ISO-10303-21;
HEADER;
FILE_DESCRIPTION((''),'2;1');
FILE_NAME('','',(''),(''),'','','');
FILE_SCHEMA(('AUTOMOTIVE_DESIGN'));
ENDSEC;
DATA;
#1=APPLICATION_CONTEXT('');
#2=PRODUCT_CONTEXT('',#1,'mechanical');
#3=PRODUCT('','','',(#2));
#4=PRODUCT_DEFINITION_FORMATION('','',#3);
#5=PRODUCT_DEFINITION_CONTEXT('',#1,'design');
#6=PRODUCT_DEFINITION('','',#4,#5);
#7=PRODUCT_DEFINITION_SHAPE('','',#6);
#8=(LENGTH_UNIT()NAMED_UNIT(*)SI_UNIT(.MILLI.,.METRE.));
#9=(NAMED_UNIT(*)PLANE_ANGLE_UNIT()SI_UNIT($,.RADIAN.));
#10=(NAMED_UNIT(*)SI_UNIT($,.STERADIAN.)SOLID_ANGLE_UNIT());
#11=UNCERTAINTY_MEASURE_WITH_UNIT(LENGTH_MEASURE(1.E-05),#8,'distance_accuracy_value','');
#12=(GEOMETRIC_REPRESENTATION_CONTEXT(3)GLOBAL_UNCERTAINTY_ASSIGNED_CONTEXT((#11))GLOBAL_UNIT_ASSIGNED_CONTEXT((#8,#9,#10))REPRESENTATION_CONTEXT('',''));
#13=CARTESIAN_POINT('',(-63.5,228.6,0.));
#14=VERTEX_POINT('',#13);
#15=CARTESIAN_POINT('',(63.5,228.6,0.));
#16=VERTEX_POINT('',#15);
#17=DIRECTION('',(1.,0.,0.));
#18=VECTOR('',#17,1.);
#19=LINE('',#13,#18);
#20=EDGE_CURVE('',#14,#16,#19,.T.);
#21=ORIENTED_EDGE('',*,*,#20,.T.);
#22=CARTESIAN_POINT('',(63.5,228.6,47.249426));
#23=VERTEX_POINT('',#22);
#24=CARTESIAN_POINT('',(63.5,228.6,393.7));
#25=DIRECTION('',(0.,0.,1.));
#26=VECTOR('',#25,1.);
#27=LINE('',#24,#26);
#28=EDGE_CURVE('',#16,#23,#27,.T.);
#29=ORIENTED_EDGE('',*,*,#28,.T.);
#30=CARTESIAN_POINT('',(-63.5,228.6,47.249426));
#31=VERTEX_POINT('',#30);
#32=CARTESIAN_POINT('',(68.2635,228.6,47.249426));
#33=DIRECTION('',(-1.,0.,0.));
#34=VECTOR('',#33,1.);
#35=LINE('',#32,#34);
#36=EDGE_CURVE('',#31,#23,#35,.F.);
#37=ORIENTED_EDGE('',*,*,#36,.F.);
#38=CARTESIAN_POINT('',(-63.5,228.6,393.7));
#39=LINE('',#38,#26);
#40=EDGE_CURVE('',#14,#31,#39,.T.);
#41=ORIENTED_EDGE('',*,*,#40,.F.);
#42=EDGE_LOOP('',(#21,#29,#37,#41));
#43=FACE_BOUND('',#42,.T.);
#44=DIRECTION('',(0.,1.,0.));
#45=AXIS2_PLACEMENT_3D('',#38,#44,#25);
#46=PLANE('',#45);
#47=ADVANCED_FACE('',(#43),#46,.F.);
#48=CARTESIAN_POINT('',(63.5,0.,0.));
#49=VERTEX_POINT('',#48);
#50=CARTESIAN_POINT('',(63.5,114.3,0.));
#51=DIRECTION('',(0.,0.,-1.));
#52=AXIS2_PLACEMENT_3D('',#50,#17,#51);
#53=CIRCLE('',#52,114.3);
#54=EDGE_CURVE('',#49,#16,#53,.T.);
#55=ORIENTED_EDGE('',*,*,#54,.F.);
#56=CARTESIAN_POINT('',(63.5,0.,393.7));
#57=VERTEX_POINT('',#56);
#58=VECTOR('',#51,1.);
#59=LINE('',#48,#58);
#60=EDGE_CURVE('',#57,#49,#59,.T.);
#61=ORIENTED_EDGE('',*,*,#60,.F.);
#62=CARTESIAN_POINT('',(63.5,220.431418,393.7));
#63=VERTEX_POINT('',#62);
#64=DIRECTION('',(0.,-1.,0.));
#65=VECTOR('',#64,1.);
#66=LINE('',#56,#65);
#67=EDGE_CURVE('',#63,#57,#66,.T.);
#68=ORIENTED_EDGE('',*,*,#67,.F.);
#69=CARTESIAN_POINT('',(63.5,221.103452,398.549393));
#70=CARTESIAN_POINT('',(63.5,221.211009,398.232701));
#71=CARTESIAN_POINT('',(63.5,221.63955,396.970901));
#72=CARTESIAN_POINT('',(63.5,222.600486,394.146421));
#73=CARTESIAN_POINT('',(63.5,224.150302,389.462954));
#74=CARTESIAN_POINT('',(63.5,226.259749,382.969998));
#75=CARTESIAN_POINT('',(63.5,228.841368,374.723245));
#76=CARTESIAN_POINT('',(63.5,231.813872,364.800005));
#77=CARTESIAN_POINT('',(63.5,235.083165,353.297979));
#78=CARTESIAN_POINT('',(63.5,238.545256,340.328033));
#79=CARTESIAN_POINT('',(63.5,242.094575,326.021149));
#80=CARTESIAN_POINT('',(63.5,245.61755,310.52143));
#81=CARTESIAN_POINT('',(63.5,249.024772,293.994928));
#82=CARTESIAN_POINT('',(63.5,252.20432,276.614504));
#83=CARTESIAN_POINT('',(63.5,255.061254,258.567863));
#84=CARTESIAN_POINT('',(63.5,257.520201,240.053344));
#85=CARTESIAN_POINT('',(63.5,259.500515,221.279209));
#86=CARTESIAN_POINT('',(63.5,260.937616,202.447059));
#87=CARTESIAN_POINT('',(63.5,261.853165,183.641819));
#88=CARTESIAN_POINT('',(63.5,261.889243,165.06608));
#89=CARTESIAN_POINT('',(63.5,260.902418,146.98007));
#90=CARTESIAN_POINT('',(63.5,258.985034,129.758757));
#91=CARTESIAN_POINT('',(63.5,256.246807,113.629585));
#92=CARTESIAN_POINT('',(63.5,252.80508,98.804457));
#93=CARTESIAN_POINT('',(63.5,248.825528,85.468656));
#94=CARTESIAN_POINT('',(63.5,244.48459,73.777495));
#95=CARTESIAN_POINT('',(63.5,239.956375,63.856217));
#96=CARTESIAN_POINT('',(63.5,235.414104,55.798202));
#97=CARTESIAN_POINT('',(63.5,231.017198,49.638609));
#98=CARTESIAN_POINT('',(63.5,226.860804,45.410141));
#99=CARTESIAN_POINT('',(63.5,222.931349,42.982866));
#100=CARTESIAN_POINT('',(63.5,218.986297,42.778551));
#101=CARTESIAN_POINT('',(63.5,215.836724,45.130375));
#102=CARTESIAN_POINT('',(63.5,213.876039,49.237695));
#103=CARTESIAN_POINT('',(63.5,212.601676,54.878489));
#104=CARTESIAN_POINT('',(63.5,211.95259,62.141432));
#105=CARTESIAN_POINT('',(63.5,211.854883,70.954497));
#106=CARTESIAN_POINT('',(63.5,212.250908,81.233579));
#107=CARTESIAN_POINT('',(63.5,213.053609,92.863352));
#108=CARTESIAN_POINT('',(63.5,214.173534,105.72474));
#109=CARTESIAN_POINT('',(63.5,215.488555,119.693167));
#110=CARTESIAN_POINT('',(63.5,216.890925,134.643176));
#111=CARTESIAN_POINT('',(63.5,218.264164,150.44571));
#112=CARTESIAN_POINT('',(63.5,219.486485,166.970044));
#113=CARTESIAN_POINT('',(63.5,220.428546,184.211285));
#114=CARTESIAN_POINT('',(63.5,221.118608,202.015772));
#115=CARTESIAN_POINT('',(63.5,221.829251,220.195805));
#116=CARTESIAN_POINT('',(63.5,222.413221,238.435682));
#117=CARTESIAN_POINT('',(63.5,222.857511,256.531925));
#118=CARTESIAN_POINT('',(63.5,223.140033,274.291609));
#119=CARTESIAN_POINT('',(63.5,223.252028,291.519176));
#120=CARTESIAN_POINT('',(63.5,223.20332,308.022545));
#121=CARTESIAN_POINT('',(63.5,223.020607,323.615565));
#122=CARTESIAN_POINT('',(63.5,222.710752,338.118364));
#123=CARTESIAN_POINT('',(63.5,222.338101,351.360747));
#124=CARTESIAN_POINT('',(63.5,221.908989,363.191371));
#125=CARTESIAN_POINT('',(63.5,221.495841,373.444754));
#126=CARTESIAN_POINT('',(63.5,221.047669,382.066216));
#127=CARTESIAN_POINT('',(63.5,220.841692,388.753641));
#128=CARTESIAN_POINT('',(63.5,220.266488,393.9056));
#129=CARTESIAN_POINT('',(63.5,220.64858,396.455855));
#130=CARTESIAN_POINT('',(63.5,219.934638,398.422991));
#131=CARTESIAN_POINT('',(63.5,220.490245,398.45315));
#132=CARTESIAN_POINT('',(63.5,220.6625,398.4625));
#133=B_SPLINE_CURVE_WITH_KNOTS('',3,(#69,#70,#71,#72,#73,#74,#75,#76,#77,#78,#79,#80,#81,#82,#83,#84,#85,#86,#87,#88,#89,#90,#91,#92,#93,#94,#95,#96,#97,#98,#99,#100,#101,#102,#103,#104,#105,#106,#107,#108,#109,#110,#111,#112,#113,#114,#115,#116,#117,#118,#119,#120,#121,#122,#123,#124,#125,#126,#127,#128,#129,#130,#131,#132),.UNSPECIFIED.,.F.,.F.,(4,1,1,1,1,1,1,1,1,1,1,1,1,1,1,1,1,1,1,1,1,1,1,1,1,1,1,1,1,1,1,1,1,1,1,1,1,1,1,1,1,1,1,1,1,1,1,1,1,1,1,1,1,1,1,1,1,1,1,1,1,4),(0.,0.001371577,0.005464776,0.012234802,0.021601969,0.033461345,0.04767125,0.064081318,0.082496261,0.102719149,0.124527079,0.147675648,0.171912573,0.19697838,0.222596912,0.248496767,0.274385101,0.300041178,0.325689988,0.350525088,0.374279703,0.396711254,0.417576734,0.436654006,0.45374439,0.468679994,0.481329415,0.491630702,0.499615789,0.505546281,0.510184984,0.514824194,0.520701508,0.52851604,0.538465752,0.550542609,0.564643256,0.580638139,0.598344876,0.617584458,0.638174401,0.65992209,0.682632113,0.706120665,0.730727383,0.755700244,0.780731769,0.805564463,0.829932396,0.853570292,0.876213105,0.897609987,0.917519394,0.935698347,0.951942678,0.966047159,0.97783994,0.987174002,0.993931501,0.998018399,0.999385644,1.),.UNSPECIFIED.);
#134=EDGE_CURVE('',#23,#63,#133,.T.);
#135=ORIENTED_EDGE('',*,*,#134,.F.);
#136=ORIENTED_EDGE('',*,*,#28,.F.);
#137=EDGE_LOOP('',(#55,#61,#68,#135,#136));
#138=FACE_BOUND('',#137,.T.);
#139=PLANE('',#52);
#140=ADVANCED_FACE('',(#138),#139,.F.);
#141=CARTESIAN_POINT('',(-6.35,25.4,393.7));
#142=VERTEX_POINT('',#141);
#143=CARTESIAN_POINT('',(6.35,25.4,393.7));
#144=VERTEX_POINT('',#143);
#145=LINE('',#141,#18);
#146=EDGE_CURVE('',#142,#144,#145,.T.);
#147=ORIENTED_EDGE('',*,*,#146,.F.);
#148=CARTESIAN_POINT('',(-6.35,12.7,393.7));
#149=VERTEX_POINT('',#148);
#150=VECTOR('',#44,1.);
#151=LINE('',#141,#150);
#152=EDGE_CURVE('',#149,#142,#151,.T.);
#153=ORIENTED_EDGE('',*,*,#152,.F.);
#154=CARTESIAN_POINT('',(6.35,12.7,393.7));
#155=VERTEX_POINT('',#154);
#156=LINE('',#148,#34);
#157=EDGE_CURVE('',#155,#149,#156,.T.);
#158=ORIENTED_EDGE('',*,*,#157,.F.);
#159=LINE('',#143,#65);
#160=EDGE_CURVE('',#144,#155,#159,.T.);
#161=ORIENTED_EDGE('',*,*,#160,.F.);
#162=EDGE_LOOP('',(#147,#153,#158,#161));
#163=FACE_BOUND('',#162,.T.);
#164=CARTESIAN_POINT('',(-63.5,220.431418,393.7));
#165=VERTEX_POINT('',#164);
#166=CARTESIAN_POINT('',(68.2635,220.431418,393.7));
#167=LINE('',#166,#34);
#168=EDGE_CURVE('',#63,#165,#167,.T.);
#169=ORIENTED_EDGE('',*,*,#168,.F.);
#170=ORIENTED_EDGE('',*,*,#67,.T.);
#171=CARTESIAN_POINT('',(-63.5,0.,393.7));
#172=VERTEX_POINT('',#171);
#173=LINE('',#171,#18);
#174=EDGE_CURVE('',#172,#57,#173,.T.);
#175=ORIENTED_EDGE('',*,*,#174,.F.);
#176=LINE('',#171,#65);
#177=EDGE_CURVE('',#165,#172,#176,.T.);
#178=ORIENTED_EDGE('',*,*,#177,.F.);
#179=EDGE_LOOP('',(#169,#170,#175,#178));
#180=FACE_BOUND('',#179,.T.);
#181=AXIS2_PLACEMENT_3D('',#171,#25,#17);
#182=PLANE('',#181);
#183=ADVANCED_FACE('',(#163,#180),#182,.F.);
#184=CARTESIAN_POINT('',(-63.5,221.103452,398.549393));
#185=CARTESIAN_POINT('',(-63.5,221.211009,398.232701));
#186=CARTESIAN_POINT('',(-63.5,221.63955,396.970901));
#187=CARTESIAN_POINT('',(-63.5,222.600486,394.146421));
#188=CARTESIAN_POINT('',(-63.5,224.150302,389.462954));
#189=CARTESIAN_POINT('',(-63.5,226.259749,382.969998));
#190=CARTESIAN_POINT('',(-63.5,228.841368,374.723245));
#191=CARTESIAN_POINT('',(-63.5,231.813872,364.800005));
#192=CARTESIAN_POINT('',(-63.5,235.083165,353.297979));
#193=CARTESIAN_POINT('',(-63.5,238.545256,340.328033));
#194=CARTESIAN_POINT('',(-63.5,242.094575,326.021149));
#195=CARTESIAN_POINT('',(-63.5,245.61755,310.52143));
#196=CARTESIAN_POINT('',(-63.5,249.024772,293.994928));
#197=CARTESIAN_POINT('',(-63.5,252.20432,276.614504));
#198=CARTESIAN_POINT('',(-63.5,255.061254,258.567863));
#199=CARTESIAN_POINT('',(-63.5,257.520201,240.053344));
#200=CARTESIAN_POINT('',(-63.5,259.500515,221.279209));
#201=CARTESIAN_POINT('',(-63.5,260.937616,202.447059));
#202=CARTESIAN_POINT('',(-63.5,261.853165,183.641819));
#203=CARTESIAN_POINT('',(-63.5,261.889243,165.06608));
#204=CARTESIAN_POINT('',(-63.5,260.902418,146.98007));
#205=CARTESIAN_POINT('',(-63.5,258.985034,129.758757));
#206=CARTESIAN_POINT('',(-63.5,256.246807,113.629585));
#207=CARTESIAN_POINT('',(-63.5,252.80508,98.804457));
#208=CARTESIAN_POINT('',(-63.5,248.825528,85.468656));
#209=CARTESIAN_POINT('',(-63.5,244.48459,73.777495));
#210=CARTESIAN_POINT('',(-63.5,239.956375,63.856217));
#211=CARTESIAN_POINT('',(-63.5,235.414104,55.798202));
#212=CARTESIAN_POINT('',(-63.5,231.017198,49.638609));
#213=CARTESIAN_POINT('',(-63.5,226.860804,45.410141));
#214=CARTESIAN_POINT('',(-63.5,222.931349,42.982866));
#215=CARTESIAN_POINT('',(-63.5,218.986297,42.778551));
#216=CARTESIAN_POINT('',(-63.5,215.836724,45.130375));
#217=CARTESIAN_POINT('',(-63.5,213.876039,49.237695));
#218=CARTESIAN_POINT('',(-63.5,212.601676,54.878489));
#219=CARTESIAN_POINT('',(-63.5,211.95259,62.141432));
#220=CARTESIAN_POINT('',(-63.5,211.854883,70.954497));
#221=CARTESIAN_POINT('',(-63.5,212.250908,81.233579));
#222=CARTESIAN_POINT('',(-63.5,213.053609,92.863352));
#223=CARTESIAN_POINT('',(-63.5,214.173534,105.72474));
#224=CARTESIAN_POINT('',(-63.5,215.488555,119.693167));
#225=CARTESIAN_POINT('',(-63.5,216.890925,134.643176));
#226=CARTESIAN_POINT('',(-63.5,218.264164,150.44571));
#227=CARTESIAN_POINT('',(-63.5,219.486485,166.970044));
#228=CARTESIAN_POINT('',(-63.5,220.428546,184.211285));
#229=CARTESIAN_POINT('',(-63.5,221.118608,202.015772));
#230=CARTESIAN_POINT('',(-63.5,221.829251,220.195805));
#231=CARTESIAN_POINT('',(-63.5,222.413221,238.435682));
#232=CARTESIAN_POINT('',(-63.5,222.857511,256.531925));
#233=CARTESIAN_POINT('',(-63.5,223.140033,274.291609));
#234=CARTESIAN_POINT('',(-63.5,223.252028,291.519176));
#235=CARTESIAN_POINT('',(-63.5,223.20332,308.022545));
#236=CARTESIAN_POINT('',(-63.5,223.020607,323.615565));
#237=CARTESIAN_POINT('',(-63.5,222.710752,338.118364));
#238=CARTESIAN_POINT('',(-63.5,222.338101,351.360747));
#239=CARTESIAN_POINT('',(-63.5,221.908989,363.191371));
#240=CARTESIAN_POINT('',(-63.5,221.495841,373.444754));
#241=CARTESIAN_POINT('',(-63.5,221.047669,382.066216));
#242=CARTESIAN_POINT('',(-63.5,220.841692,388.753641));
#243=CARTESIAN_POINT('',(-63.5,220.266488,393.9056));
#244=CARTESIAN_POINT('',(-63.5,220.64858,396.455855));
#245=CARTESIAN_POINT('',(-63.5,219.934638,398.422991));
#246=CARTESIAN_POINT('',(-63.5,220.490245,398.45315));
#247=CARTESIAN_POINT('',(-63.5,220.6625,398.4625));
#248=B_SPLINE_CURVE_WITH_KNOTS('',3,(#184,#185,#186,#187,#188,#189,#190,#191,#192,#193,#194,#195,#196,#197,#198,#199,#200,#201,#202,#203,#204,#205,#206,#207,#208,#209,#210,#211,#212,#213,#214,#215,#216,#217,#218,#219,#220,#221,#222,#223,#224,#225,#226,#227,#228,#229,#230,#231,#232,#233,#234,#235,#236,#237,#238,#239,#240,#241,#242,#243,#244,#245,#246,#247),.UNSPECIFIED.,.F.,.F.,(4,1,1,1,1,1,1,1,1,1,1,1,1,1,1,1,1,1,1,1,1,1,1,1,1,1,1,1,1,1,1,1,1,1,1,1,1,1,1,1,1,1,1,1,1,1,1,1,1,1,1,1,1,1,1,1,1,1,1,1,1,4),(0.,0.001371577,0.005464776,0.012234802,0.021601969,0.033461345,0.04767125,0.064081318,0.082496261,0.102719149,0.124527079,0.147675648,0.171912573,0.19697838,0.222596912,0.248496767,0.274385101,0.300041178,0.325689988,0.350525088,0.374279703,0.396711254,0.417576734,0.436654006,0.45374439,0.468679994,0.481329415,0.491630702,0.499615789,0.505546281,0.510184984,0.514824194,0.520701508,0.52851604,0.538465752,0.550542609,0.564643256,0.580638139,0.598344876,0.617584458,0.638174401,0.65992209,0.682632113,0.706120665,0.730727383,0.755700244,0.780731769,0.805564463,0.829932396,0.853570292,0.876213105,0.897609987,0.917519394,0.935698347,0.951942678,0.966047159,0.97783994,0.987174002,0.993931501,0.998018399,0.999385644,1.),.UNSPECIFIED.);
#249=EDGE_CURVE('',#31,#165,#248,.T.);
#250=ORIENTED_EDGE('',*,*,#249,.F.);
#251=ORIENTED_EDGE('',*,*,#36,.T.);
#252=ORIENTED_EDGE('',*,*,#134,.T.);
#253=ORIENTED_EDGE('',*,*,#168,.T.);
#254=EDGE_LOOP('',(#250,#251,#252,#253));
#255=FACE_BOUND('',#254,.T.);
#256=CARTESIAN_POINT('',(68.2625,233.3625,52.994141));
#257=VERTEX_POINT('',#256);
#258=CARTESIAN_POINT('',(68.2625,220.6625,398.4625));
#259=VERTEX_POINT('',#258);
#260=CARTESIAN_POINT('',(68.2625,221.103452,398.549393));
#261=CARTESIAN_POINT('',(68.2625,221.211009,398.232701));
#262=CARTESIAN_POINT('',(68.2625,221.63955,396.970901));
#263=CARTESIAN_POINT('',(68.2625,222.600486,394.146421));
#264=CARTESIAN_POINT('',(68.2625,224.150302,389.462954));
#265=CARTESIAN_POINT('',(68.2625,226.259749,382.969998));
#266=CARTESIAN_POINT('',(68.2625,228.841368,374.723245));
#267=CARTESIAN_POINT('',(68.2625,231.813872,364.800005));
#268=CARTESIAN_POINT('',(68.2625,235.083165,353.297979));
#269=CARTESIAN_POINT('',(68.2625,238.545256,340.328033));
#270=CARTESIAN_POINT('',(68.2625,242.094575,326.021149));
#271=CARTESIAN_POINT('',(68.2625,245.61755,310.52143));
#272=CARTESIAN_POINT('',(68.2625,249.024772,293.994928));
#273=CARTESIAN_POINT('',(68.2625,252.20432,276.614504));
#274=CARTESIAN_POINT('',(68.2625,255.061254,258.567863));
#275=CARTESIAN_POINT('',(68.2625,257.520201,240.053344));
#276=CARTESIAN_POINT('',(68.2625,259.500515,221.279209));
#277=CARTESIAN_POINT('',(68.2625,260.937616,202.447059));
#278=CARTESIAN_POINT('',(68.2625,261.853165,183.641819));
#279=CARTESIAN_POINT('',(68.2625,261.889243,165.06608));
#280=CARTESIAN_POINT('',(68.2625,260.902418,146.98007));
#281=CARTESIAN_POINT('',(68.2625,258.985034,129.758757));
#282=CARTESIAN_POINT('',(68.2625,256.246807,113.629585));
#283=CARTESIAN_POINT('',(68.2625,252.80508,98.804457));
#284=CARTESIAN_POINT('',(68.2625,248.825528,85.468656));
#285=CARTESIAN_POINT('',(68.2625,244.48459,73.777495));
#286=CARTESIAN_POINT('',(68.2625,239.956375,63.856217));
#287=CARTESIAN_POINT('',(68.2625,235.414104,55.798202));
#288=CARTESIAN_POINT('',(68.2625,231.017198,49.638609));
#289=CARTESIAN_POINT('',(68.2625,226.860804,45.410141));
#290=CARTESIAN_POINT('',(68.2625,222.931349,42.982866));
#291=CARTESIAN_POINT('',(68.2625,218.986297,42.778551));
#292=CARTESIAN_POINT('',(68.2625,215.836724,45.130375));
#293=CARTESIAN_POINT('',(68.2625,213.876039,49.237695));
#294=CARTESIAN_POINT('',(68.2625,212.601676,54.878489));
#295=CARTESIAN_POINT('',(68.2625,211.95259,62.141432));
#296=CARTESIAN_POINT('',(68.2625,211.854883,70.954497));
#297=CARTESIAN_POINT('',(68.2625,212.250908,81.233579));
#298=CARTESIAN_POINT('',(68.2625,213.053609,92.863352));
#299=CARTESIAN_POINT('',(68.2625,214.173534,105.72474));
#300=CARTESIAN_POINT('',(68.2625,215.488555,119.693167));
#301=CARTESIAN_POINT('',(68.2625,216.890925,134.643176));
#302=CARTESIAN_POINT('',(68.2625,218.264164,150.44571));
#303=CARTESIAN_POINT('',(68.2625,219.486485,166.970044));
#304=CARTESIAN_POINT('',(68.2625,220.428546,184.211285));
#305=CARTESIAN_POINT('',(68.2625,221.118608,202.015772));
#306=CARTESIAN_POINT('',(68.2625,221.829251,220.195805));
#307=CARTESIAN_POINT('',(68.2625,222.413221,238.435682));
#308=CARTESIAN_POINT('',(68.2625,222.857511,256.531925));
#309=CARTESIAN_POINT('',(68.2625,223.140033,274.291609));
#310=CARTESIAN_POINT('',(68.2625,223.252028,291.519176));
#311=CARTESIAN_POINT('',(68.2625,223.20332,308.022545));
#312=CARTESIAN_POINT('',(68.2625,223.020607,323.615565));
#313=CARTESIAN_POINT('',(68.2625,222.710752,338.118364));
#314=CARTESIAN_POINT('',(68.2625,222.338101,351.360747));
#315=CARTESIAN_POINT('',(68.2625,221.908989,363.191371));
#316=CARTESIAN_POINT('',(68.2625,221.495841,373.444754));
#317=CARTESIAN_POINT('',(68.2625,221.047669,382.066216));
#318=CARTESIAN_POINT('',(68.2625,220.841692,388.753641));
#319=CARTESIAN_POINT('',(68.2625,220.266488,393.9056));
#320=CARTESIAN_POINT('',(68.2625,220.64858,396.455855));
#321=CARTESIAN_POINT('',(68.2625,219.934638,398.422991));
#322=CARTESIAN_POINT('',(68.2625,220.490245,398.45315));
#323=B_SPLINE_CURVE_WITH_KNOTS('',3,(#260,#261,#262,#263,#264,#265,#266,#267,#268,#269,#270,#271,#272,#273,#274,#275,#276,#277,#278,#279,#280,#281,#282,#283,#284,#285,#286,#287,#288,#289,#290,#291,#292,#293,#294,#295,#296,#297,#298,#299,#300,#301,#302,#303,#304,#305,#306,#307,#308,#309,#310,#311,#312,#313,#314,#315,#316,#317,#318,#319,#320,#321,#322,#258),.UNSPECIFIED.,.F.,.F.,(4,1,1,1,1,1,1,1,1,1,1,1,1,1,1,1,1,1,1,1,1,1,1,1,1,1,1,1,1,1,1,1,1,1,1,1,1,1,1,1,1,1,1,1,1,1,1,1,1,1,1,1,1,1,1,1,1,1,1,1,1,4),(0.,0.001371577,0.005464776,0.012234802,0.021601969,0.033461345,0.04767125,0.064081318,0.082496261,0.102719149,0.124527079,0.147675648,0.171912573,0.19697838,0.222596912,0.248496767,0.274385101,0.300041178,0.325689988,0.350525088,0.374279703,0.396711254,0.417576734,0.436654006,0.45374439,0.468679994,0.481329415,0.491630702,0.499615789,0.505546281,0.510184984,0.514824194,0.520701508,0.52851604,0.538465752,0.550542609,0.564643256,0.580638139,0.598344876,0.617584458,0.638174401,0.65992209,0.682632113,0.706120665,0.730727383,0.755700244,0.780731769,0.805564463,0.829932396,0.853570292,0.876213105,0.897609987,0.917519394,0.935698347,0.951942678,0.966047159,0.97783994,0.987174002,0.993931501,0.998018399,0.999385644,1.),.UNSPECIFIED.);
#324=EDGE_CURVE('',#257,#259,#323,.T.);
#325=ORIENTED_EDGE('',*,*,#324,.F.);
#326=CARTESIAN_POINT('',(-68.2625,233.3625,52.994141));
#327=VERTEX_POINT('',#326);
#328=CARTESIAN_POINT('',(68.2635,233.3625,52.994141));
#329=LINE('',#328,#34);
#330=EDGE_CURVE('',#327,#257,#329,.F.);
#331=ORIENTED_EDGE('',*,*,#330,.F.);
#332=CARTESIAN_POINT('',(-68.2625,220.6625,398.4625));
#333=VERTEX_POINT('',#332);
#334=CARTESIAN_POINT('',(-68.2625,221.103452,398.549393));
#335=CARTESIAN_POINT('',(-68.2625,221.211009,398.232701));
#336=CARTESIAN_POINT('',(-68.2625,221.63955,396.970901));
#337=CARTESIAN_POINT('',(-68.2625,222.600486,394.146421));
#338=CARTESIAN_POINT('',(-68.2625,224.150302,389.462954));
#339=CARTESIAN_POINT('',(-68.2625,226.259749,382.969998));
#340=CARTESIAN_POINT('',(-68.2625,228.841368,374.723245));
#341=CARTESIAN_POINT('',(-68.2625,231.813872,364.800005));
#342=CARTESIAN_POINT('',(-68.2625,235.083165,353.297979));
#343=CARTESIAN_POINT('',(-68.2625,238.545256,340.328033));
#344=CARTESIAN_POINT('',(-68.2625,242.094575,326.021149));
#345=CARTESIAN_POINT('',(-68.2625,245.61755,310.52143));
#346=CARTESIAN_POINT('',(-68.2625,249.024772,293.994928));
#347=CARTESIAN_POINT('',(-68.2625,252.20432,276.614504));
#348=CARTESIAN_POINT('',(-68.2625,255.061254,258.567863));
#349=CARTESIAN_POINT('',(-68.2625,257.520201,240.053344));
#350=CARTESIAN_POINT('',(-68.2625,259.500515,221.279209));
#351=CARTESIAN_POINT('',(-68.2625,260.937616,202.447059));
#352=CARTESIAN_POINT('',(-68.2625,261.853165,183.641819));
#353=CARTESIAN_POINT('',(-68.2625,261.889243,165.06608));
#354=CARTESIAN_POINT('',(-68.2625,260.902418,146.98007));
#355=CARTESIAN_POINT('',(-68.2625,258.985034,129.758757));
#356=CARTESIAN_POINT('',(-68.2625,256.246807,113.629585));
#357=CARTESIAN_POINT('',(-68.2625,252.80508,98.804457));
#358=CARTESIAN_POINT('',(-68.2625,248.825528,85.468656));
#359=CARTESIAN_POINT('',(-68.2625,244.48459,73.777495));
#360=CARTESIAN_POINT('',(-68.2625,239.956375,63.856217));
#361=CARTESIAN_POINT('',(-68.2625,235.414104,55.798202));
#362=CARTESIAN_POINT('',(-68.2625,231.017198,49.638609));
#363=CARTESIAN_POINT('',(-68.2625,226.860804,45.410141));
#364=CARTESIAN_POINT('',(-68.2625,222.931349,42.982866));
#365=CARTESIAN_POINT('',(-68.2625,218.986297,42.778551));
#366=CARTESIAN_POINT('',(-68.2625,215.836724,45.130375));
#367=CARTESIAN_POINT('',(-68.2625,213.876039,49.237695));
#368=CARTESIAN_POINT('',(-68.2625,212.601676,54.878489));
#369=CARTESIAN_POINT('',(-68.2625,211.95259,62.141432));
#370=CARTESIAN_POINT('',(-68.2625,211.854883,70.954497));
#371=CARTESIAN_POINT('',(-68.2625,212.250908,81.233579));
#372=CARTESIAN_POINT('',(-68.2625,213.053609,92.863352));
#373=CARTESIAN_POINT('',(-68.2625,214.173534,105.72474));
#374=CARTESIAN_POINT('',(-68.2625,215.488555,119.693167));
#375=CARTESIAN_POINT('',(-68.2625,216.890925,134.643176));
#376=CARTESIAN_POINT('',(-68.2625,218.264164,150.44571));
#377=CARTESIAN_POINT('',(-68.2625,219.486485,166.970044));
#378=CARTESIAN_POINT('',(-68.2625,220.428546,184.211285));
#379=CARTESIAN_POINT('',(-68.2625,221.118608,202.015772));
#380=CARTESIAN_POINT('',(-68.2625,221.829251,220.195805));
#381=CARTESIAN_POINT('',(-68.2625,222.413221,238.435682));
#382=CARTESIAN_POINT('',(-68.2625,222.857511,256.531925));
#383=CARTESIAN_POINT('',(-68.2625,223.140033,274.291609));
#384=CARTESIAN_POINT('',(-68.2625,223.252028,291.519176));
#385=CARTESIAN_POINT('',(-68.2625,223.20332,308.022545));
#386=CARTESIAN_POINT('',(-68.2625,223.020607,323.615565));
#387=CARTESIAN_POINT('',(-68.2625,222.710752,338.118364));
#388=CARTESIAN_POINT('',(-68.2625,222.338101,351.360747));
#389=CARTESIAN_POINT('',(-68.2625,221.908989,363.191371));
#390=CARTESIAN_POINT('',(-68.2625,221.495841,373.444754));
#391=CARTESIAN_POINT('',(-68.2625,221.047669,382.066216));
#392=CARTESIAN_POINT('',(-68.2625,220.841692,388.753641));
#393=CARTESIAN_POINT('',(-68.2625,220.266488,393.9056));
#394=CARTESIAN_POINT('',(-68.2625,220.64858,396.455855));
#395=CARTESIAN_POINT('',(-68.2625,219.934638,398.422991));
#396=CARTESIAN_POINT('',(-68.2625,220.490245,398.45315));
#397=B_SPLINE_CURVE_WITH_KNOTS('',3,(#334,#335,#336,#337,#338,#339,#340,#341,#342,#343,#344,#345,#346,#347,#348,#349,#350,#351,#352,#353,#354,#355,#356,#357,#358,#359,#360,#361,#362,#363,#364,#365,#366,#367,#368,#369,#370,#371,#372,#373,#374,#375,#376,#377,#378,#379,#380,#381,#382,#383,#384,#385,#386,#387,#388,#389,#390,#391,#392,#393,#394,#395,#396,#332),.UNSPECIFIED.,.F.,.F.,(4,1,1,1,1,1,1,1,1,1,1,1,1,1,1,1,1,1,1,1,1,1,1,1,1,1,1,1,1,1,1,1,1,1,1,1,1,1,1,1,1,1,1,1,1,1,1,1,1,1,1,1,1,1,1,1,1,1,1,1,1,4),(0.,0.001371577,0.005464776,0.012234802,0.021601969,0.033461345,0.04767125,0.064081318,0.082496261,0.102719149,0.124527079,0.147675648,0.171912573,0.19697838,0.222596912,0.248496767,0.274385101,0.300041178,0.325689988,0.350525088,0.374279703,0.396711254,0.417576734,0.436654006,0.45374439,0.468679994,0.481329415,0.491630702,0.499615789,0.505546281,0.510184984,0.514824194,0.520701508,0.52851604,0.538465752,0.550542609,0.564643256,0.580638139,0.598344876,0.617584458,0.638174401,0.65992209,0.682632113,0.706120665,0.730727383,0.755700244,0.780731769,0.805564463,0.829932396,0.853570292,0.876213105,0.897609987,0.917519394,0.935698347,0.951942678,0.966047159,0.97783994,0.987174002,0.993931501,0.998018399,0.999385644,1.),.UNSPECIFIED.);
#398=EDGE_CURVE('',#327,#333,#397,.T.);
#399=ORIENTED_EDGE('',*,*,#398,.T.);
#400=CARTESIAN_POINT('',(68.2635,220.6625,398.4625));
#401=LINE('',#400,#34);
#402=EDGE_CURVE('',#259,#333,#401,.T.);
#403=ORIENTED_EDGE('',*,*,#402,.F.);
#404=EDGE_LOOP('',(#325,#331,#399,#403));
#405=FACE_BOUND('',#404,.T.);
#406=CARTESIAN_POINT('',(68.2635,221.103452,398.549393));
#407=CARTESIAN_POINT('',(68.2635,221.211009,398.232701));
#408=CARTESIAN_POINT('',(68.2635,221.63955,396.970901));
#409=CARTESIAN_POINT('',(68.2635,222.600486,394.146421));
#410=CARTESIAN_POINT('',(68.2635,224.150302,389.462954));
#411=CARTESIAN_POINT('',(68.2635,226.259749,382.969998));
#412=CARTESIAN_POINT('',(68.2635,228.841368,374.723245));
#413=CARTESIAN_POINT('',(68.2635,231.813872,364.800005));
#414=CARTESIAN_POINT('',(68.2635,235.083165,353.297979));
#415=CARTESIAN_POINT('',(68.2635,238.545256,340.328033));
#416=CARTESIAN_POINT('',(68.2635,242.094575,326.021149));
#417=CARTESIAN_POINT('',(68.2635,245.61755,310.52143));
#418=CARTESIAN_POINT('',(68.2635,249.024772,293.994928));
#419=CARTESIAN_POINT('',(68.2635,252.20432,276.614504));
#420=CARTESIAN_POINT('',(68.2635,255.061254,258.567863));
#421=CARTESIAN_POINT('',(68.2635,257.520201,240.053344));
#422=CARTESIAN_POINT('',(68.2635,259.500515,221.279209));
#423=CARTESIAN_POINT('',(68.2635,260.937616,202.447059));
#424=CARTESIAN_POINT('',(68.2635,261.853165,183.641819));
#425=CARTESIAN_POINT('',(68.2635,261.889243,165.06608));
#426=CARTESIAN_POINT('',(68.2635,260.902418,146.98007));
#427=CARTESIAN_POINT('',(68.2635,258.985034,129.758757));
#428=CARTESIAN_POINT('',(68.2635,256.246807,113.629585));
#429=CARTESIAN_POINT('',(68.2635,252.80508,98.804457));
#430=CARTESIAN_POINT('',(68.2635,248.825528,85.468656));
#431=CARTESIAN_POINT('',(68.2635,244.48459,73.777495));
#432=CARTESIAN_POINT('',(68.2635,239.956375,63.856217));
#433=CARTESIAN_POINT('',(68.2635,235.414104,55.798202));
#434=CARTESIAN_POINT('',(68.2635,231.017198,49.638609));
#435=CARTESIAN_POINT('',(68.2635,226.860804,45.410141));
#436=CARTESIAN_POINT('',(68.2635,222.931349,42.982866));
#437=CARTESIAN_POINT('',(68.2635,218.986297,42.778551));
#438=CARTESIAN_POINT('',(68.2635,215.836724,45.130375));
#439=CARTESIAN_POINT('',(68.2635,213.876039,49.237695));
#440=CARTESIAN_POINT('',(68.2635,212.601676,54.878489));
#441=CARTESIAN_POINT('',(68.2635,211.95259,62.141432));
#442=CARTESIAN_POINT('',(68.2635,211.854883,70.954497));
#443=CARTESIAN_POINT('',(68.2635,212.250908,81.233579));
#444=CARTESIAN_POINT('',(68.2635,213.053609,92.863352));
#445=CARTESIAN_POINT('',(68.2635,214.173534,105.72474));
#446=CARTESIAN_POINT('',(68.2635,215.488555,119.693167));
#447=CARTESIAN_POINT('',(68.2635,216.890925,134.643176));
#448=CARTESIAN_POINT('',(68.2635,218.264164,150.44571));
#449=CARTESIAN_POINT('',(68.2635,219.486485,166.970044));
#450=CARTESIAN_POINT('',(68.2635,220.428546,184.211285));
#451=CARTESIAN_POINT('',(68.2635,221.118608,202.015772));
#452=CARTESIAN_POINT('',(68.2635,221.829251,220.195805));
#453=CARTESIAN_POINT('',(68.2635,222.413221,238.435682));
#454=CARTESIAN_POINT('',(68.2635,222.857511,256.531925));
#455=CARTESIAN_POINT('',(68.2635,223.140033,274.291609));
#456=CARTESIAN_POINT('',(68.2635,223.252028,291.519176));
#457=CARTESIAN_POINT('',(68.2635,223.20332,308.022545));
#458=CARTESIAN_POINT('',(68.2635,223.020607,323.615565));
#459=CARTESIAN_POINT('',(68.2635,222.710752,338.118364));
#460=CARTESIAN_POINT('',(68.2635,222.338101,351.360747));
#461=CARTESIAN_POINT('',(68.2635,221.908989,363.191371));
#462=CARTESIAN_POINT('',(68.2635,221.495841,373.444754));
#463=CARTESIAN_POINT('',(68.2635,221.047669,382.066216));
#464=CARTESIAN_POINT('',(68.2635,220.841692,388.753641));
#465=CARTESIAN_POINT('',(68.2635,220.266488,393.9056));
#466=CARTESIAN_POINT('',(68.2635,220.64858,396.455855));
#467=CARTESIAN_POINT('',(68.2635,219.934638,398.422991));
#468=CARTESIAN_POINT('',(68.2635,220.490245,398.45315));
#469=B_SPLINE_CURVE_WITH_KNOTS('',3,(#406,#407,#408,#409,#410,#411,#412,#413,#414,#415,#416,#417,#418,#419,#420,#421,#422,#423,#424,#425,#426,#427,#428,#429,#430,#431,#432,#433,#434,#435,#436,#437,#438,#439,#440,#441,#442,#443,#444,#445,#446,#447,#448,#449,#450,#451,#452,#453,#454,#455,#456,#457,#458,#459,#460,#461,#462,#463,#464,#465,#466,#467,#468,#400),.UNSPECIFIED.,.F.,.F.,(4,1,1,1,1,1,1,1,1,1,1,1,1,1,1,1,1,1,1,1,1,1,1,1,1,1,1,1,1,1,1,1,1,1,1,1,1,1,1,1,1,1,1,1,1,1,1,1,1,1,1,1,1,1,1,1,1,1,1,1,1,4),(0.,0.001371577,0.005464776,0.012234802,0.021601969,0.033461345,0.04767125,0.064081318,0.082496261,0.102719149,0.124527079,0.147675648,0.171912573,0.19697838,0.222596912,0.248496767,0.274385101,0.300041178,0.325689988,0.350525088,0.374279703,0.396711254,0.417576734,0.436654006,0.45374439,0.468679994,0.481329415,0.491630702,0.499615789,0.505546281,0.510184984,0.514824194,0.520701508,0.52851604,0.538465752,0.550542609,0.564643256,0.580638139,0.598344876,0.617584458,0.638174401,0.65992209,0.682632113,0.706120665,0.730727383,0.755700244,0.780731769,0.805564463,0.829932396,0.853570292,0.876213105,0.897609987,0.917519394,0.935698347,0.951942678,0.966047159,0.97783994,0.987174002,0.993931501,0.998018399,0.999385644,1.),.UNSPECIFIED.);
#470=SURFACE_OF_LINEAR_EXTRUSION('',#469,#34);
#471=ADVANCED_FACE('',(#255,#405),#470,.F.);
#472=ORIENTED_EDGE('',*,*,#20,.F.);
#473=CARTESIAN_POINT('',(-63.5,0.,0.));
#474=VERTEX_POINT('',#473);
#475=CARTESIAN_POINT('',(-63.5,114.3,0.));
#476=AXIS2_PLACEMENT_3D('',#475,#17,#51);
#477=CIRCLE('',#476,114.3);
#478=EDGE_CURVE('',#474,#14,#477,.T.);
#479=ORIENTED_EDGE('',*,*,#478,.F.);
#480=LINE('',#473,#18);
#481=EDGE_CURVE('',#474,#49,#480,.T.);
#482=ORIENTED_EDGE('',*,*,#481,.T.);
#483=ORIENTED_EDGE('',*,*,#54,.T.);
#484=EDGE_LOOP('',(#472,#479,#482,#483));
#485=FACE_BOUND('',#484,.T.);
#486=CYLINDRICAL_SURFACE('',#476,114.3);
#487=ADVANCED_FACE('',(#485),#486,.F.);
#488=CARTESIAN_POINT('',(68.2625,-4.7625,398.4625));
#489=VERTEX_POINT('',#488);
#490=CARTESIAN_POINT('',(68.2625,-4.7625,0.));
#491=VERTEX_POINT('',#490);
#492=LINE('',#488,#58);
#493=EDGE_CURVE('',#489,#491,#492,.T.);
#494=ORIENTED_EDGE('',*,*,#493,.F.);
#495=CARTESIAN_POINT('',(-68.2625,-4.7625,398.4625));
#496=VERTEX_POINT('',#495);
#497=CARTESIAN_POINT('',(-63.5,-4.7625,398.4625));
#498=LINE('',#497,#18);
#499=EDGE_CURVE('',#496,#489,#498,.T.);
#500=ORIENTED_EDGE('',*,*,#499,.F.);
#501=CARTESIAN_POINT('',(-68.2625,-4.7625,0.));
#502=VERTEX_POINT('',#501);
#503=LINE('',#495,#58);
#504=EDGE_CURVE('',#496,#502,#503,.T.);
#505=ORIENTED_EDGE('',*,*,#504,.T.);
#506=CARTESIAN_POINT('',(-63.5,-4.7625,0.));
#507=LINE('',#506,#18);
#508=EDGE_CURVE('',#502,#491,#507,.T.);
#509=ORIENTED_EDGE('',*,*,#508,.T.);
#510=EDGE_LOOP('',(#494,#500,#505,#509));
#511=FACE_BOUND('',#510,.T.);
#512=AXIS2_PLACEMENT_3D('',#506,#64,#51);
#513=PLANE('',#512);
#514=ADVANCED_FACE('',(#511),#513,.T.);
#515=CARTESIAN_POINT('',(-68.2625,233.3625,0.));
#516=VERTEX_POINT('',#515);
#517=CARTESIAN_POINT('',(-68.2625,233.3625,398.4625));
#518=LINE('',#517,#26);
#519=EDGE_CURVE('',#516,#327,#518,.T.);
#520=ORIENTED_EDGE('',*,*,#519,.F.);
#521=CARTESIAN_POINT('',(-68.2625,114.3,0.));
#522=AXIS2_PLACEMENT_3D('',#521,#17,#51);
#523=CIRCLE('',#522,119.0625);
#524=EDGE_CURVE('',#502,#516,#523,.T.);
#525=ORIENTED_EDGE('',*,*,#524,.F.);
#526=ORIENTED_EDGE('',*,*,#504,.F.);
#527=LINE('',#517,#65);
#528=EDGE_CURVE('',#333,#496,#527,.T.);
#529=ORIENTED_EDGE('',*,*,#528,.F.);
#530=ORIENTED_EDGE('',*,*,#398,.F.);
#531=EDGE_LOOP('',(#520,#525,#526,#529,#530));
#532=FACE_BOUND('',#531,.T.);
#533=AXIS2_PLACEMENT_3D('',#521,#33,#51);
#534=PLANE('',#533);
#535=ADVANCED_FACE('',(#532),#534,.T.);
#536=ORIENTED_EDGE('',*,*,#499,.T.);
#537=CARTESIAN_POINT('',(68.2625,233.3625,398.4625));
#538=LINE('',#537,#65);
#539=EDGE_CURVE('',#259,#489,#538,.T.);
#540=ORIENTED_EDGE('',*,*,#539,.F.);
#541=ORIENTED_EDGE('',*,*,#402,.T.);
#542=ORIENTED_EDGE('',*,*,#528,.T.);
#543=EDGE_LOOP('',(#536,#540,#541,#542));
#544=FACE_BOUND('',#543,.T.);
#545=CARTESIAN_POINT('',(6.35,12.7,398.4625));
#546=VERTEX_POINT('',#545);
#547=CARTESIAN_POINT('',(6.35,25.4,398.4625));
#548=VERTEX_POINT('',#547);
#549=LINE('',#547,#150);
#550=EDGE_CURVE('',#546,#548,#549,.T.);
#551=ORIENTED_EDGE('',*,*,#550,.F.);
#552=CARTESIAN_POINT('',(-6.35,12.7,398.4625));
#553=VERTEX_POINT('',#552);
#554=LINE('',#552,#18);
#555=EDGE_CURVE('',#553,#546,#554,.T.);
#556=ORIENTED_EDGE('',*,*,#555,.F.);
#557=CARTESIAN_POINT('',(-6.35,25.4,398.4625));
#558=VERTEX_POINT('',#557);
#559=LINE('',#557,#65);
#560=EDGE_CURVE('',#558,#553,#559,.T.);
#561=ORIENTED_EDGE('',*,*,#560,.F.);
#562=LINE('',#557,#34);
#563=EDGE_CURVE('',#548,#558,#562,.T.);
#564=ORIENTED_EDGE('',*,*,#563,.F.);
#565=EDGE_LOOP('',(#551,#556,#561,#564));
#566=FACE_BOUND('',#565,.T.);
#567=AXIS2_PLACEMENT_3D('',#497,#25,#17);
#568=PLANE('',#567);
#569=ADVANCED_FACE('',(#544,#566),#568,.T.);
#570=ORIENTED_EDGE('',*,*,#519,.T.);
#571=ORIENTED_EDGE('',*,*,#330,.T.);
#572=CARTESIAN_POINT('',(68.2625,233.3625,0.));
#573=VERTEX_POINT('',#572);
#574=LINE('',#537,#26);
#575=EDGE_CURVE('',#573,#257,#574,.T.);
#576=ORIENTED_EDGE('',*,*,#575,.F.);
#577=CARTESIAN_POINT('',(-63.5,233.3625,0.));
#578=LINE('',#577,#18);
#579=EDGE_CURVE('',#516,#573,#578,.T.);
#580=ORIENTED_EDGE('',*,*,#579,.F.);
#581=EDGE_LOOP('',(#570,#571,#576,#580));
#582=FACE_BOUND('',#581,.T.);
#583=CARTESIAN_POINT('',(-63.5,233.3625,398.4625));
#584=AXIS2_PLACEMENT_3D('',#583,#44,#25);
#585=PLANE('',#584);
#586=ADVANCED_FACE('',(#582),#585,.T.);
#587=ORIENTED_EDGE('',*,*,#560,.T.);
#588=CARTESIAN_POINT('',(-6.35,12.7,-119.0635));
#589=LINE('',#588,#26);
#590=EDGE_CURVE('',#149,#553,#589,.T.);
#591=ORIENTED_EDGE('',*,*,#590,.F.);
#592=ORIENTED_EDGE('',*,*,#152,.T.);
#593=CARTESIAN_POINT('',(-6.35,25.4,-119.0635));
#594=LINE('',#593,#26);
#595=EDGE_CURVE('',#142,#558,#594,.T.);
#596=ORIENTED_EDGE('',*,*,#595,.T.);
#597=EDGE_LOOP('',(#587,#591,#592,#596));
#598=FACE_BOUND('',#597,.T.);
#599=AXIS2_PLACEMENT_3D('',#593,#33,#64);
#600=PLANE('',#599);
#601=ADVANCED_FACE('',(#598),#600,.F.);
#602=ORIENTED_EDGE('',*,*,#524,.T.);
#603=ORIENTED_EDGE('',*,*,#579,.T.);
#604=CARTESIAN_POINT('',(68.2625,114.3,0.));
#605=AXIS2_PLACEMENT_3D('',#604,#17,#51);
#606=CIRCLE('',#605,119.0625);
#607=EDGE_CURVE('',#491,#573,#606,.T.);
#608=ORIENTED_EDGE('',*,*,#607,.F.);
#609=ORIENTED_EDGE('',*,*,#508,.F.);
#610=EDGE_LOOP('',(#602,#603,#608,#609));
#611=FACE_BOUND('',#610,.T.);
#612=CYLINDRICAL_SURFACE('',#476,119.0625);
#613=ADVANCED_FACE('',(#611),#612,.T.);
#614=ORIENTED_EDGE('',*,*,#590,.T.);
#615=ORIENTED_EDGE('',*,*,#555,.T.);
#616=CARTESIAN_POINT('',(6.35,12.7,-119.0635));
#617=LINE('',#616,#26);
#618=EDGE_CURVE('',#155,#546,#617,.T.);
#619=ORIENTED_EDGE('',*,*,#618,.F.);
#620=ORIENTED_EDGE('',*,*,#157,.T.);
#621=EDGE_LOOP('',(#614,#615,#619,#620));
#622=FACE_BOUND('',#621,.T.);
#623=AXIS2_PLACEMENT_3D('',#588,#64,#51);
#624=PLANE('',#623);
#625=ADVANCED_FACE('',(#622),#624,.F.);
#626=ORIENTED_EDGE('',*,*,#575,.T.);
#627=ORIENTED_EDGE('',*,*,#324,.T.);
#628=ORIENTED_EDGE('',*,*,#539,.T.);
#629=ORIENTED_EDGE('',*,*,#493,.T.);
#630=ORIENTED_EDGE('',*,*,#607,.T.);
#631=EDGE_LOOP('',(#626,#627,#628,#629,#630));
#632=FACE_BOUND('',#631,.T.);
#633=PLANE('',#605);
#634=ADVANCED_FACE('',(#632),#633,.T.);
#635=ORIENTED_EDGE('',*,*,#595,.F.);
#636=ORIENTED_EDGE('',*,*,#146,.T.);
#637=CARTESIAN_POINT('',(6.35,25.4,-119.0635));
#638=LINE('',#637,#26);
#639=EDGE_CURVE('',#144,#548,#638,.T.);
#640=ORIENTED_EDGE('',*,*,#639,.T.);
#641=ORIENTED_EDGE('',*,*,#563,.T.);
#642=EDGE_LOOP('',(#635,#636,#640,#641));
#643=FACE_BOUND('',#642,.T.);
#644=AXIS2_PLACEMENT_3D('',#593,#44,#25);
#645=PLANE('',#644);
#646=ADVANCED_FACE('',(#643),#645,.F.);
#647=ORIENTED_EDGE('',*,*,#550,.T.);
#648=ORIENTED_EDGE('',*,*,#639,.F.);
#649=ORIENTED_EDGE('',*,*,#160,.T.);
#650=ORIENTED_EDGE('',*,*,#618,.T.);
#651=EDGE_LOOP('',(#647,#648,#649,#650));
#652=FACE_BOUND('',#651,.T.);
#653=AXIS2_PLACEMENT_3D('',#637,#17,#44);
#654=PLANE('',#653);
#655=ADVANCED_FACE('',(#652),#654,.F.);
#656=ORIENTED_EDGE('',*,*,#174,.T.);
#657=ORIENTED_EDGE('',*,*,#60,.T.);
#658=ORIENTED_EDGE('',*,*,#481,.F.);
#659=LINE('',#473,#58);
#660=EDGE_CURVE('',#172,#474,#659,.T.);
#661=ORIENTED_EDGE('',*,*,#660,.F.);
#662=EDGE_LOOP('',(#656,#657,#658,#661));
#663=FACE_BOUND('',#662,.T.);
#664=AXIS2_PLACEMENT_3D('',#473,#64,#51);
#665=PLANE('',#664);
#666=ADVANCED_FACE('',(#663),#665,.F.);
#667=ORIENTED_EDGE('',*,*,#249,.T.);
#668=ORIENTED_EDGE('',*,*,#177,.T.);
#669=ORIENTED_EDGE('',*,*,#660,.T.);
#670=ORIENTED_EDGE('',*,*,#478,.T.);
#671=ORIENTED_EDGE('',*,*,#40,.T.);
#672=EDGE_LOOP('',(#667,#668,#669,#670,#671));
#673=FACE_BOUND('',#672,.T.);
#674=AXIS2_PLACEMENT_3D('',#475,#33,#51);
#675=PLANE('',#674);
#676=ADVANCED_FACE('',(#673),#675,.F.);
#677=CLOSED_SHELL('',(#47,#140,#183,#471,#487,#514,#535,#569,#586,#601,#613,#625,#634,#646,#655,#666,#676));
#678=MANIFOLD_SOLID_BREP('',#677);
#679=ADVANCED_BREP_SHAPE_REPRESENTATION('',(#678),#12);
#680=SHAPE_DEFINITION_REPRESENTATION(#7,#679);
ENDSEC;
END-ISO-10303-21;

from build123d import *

# Parameters (mm, degrees)
BOSS_EXTRUDE1_DEPTH            = 63.5
BOSS_EXTRUDE1_DEPTH_BACK       = 63.5
CUT_EXTRUDE1_REACH             = 573.246
SKETCH4_W                      = 12.7
SKETCH4_H                      = 12.7
BOSS_EXTRUDE3_DEPTH            = 4.7625
CUT_EXTRUDE2_REACH             = 468.787
CUT_EXTRUDE2_DIRECTION_2_REACH = 468.787
CUT_EXTRUDE3_DEPTH             = 136.525


with BuildPart() as part:
    # Sketch2 → Boss-Extrude1 (new, two sides: drawn at the far end of the back side and taken through both)
    with BuildSketch(Plane(origin=(0, 0, 0), x_dir=(0, 0, -1), z_dir=(1, 0, 0)).offset(-BOSS_EXTRUDE1_DEPTH_BACK)):
        with BuildLine():
            Line((0, -4.7625), (-398.4625, -4.7625))
            Line((-398.4625, -4.7625), (-398.4625, 233.3625))
            Line((-398.4625, 233.3625), (0, 233.3625))
            ThreePointArc((0, 233.3625), (119.0625, 114.3), (0, -4.7625))
        make_face()
        with BuildLine():
            Line((0, 0), (-393.7, 0))
            Line((-393.7, 0), (-393.7, 228.6))
            Line((-393.7, 228.6), (0, 228.6))
            ThreePointArc((0, 228.6), (114.3, 114.3), (0, 0))
        make_face(mode=Mode.SUBTRACT)
    extrude(amount=BOSS_EXTRUDE1_DEPTH + BOSS_EXTRUDE1_DEPTH_BACK)

    # Sketch4 → Cut-Extrude1 (cut, up to next)
    with BuildSketch(Plane.XY.offset(398.4625), mode=Mode.PRIVATE) as cut_extrude1_sk1:
        with Locations((0, 19.05)):
            Rectangle(SKETCH4_W, SKETCH4_H)
    cut_extrude1_tool1 = extrude(cut_extrude1_sk1.sketch, amount=-CUT_EXTRUDE1_REACH, mode=Mode.PRIVATE) & part.part
    add(cut_extrude1_tool1.solids().sort_by_distance((0, 19.05, 398.4625))[0], mode=Mode.SUBTRACT)

    # Sketch9 → Boss-Extrude3 (add)
    with BuildSketch(Plane(origin=(63.5, 0, 0), x_dir=(0, 0, -1), z_dir=(1, 0, 0))):
        with BuildLine():
            Line((-398.4625, 233.3625), (0, 233.3625))
            ThreePointArc((0, 233.3625), (119.0625, 114.3), (0, -4.7625))
            Line((0, -4.7625), (-398.4625, -4.7625))
            Line((-398.4625, -4.7625), (-398.4625, 233.3625))
        make_face()
    boss_extrude3 = extrude(amount=BOSS_EXTRUDE3_DEPTH)

    # Mirror1: Boss-Extrude3 across plane
    add(boss_extrude3.mirror(Plane(origin=(0, 0, 0), x_dir=(0, 0, 1), z_dir=(1, 0, 0))))

    # Sketch11 → Cut-Extrude2 (cut, up to next)
    with BuildSketch(Plane(origin=(0, 0, 0), x_dir=(0, 0, -1), z_dir=(1, 0, 0)), mode=Mode.PRIVATE) as cut_extrude2_sk1:
        with BuildLine():
            Line((-398.4625, 220.6625), (-398.549393223, 221.103452286))
            add(Edge.make_bspline(
                [(-398.549393223, 221.103452286), (-398.232700595, 221.211009466), (-396.970901441, 221.63954978), (-394.14642109, 222.600485882), (-389.462953517, 224.150302439), (-382.969998464, 226.259749178), (-374.723245355, 228.841368447), (-364.80000481, 231.813872481), (-353.297978696, 235.083165457), (-340.328032508, 238.545255758), (-326.021148985, 242.094575026), (-310.521429797, 245.617549826), (-293.994927933, 249.024771645), (-276.614504443, 252.20432036), (-258.567862768, 255.061254061), (-240.053343741, 257.520201331), (-221.279209389, 259.500514547), (-202.447059388, 260.937616248), (-183.64181928, 261.853164618), (-165.066079575, 261.889242872), (-146.980070346, 260.902418125), (-129.758757053, 258.98503391), (-113.629585221, 256.246806811), (-98.804456806, 252.805079969), (-85.468656161, 248.825528286), (-73.777495343, 244.484590441), (-63.856217252, 239.956374948), (-55.798201624, 235.414103694), (-49.638608789, 231.017198213), (-45.410140529, 226.860803831), (-42.982866367, 222.931348779), (-42.778551081, 218.986296857), (-45.130374502, 215.836723639), (-49.23769494, 213.876038864), (-54.878489437, 212.601675942), (-62.141431937, 211.952589942), (-70.954497433, 211.854882503), (-81.233579013, 212.250908039), (-92.863351661, 213.05360896), (-105.724740235, 214.17353372), (-119.693166749, 215.488554617), (-134.64317648, 216.89092489), (-150.445709996, 218.26416395), (-166.970044114, 219.486485379), (-184.211284992, 220.428545699), (-202.015771527, 221.118607839), (-220.195805294, 221.829251021), (-238.435682057, 222.413221363), (-256.531925379, 222.857510837), (-274.291608724, 223.140033413), (-291.519175726, 223.252027693), (-308.022545069, 223.203320199), (-323.615565221, 223.020606612), (-338.118364345, 222.71075189), (-351.360747498, 222.338100855), (-363.191371257, 221.908988988), (-373.444754133, 221.495841487), (-382.066215664, 221.0476688), (-388.753640958, 220.841691742), (-393.905599593, 220.266487962), (-396.455855294, 220.648579963), (-398.422990842, 219.934638372), (-398.453149809, 220.490245125), (-398.4625, 220.6625)],
                knots=[0, 0, 0, 0, 0.001371577, 0.005464776, 0.012234802, 0.021601969, 0.033461345, 0.04767125, 0.064081318, 0.082496261, 0.102719149, 0.124527079, 0.147675648, 0.171912573, 0.19697838, 0.222596912, 0.248496767, 0.274385101, 0.300041178, 0.325689988, 0.350525088, 0.374279703, 0.396711254, 0.417576734, 0.436654006, 0.45374439, 0.468679994, 0.481329415, 0.491630702, 0.499615789, 0.505546281, 0.510184984, 0.514824194, 0.520701508, 0.52851604, 0.538465752, 0.550542609, 0.564643256, 0.580638139, 0.598344876, 0.617584458, 0.638174401, 0.65992209, 0.682632113, 0.706120665, 0.730727383, 0.755700244, 0.780731769, 0.805564463, 0.829932396, 0.853570292, 0.876213105, 0.897609987, 0.917519394, 0.935698347, 0.951942678, 0.966047159, 0.97783994, 0.987174002, 0.993931501, 0.998018399, 0.999385644, 1, 1, 1, 1], degree=3))
        make_face()
    cut_extrude2_tool1 = extrude(cut_extrude2_sk1.sketch, amount=-CUT_EXTRUDE2_REACH, mode=Mode.PRIVATE) & part.part
    add(cut_extrude2_tool1.solids().sort_by_distance((0, 236.327035, 192.134804))[0], mode=Mode.SUBTRACT)

    # Sketch11 → Cut-Extrude2 direction 2 (cut, up to next)
    with BuildSketch(Plane(origin=(0, 0, 0), x_dir=(0, 0, -1), z_dir=(1, 0, 0)), mode=Mode.PRIVATE) as cut_extrude2_direction_2_sk1:
        with BuildLine():
            Line((-398.4625, 220.6625), (-398.549393223, 221.103452286))
            add(Edge.make_bspline(
                [(-398.549393223, 221.103452286), (-398.232700595, 221.211009466), (-396.970901441, 221.63954978), (-394.14642109, 222.600485882), (-389.462953517, 224.150302439), (-382.969998464, 226.259749178), (-374.723245355, 228.841368447), (-364.80000481, 231.813872481), (-353.297978696, 235.083165457), (-340.328032508, 238.545255758), (-326.021148985, 242.094575026), (-310.521429797, 245.617549826), (-293.994927933, 249.024771645), (-276.614504443, 252.20432036), (-258.567862768, 255.061254061), (-240.053343741, 257.520201331), (-221.279209389, 259.500514547), (-202.447059388, 260.937616248), (-183.64181928, 261.853164618), (-165.066079575, 261.889242872), (-146.980070346, 260.902418125), (-129.758757053, 258.98503391), (-113.629585221, 256.246806811), (-98.804456806, 252.805079969), (-85.468656161, 248.825528286), (-73.777495343, 244.484590441), (-63.856217252, 239.956374948), (-55.798201624, 235.414103694), (-49.638608789, 231.017198213), (-45.410140529, 226.860803831), (-42.982866367, 222.931348779), (-42.778551081, 218.986296857), (-45.130374502, 215.836723639), (-49.23769494, 213.876038864), (-54.878489437, 212.601675942), (-62.141431937, 211.952589942), (-70.954497433, 211.854882503), (-81.233579013, 212.250908039), (-92.863351661, 213.05360896), (-105.724740235, 214.17353372), (-119.693166749, 215.488554617), (-134.64317648, 216.89092489), (-150.445709996, 218.26416395), (-166.970044114, 219.486485379), (-184.211284992, 220.428545699), (-202.015771527, 221.118607839), (-220.195805294, 221.829251021), (-238.435682057, 222.413221363), (-256.531925379, 222.857510837), (-274.291608724, 223.140033413), (-291.519175726, 223.252027693), (-308.022545069, 223.203320199), (-323.615565221, 223.020606612), (-338.118364345, 222.71075189), (-351.360747498, 222.338100855), (-363.191371257, 221.908988988), (-373.444754133, 221.495841487), (-382.066215664, 221.0476688), (-388.753640958, 220.841691742), (-393.905599593, 220.266487962), (-396.455855294, 220.648579963), (-398.422990842, 219.934638372), (-398.453149809, 220.490245125), (-398.4625, 220.6625)],
                knots=[0, 0, 0, 0, 0.001371577, 0.005464776, 0.012234802, 0.021601969, 0.033461345, 0.04767125, 0.064081318, 0.082496261, 0.102719149, 0.124527079, 0.147675648, 0.171912573, 0.19697838, 0.222596912, 0.248496767, 0.274385101, 0.300041178, 0.325689988, 0.350525088, 0.374279703, 0.396711254, 0.417576734, 0.436654006, 0.45374439, 0.468679994, 0.481329415, 0.491630702, 0.499615789, 0.505546281, 0.510184984, 0.514824194, 0.520701508, 0.52851604, 0.538465752, 0.550542609, 0.564643256, 0.580638139, 0.598344876, 0.617584458, 0.638174401, 0.65992209, 0.682632113, 0.706120665, 0.730727383, 0.755700244, 0.780731769, 0.805564463, 0.829932396, 0.853570292, 0.876213105, 0.897609987, 0.917519394, 0.935698347, 0.951942678, 0.966047159, 0.97783994, 0.987174002, 0.993931501, 0.998018399, 0.999385644, 1, 1, 1, 1], degree=3))
        make_face()
    cut_extrude2_direction_2_tool1 = extrude(cut_extrude2_direction_2_sk1.sketch, amount=CUT_EXTRUDE2_DIRECTION_2_REACH, mode=Mode.PRIVATE) & part.part
    add(cut_extrude2_direction_2_tool1.solids().sort_by_distance((0, 236.327035, 192.134804))[0], mode=Mode.SUBTRACT)


with BuildPart() as cut_extrude2_piece_1:
    # of the separate pieces the step leaves, piece 1, a body of its own (cut_extrude2_pieces)
    add(part.part.solids().sort_by_distance((68.2625, 233.3625, 0))[0])


with BuildPart() as cut_extrude2_piece_2:
    # of the separate pieces the step leaves, piece 2, a body of its own (cut_extrude2_pieces)
    add(part.part.solids().sort_by_distance((68.2625, 233.3625, 359.323803316))[0])

    # Sketch12 → Cut-Extrude3 (cut)
    with BuildSketch(Plane.ZY.offset(68.2625)):
        with BuildLine():
            Line((398.4625, 221.132963555), (398.4625, 233.3625))
            Line((398.4625, 233.3625), (359.323803288, 233.362500008))
            add(Edge.make_bspline(
                [(359.323803288, 233.362500008), (361.320647135, 232.795545243), (366.644911042, 231.261231316), (374.723245355, 228.841368447), (382.969998464, 226.259749178), (389.462953517, 224.150302439), (394.14642109, 222.600485882), (396.941942115, 221.649402234), (398.174771889, 221.230683977), (398.4625, 221.132963555)],
                knots=[0.000125443, 0.000125443, 0.000125443, 0.000125443, 0.008637848, 0.022847753, 0.034707128, 0.044074296, 0.050844322, 0.054937521, 0.056183654, 0.056183654, 0.056183654, 0.056183654], degree=3))
        make_face()
    extrude(amount=-CUT_EXTRUDE3_DEPTH, mode=Mode.SUBTRACT)


solid = cut_extrude2_piece_1.part
